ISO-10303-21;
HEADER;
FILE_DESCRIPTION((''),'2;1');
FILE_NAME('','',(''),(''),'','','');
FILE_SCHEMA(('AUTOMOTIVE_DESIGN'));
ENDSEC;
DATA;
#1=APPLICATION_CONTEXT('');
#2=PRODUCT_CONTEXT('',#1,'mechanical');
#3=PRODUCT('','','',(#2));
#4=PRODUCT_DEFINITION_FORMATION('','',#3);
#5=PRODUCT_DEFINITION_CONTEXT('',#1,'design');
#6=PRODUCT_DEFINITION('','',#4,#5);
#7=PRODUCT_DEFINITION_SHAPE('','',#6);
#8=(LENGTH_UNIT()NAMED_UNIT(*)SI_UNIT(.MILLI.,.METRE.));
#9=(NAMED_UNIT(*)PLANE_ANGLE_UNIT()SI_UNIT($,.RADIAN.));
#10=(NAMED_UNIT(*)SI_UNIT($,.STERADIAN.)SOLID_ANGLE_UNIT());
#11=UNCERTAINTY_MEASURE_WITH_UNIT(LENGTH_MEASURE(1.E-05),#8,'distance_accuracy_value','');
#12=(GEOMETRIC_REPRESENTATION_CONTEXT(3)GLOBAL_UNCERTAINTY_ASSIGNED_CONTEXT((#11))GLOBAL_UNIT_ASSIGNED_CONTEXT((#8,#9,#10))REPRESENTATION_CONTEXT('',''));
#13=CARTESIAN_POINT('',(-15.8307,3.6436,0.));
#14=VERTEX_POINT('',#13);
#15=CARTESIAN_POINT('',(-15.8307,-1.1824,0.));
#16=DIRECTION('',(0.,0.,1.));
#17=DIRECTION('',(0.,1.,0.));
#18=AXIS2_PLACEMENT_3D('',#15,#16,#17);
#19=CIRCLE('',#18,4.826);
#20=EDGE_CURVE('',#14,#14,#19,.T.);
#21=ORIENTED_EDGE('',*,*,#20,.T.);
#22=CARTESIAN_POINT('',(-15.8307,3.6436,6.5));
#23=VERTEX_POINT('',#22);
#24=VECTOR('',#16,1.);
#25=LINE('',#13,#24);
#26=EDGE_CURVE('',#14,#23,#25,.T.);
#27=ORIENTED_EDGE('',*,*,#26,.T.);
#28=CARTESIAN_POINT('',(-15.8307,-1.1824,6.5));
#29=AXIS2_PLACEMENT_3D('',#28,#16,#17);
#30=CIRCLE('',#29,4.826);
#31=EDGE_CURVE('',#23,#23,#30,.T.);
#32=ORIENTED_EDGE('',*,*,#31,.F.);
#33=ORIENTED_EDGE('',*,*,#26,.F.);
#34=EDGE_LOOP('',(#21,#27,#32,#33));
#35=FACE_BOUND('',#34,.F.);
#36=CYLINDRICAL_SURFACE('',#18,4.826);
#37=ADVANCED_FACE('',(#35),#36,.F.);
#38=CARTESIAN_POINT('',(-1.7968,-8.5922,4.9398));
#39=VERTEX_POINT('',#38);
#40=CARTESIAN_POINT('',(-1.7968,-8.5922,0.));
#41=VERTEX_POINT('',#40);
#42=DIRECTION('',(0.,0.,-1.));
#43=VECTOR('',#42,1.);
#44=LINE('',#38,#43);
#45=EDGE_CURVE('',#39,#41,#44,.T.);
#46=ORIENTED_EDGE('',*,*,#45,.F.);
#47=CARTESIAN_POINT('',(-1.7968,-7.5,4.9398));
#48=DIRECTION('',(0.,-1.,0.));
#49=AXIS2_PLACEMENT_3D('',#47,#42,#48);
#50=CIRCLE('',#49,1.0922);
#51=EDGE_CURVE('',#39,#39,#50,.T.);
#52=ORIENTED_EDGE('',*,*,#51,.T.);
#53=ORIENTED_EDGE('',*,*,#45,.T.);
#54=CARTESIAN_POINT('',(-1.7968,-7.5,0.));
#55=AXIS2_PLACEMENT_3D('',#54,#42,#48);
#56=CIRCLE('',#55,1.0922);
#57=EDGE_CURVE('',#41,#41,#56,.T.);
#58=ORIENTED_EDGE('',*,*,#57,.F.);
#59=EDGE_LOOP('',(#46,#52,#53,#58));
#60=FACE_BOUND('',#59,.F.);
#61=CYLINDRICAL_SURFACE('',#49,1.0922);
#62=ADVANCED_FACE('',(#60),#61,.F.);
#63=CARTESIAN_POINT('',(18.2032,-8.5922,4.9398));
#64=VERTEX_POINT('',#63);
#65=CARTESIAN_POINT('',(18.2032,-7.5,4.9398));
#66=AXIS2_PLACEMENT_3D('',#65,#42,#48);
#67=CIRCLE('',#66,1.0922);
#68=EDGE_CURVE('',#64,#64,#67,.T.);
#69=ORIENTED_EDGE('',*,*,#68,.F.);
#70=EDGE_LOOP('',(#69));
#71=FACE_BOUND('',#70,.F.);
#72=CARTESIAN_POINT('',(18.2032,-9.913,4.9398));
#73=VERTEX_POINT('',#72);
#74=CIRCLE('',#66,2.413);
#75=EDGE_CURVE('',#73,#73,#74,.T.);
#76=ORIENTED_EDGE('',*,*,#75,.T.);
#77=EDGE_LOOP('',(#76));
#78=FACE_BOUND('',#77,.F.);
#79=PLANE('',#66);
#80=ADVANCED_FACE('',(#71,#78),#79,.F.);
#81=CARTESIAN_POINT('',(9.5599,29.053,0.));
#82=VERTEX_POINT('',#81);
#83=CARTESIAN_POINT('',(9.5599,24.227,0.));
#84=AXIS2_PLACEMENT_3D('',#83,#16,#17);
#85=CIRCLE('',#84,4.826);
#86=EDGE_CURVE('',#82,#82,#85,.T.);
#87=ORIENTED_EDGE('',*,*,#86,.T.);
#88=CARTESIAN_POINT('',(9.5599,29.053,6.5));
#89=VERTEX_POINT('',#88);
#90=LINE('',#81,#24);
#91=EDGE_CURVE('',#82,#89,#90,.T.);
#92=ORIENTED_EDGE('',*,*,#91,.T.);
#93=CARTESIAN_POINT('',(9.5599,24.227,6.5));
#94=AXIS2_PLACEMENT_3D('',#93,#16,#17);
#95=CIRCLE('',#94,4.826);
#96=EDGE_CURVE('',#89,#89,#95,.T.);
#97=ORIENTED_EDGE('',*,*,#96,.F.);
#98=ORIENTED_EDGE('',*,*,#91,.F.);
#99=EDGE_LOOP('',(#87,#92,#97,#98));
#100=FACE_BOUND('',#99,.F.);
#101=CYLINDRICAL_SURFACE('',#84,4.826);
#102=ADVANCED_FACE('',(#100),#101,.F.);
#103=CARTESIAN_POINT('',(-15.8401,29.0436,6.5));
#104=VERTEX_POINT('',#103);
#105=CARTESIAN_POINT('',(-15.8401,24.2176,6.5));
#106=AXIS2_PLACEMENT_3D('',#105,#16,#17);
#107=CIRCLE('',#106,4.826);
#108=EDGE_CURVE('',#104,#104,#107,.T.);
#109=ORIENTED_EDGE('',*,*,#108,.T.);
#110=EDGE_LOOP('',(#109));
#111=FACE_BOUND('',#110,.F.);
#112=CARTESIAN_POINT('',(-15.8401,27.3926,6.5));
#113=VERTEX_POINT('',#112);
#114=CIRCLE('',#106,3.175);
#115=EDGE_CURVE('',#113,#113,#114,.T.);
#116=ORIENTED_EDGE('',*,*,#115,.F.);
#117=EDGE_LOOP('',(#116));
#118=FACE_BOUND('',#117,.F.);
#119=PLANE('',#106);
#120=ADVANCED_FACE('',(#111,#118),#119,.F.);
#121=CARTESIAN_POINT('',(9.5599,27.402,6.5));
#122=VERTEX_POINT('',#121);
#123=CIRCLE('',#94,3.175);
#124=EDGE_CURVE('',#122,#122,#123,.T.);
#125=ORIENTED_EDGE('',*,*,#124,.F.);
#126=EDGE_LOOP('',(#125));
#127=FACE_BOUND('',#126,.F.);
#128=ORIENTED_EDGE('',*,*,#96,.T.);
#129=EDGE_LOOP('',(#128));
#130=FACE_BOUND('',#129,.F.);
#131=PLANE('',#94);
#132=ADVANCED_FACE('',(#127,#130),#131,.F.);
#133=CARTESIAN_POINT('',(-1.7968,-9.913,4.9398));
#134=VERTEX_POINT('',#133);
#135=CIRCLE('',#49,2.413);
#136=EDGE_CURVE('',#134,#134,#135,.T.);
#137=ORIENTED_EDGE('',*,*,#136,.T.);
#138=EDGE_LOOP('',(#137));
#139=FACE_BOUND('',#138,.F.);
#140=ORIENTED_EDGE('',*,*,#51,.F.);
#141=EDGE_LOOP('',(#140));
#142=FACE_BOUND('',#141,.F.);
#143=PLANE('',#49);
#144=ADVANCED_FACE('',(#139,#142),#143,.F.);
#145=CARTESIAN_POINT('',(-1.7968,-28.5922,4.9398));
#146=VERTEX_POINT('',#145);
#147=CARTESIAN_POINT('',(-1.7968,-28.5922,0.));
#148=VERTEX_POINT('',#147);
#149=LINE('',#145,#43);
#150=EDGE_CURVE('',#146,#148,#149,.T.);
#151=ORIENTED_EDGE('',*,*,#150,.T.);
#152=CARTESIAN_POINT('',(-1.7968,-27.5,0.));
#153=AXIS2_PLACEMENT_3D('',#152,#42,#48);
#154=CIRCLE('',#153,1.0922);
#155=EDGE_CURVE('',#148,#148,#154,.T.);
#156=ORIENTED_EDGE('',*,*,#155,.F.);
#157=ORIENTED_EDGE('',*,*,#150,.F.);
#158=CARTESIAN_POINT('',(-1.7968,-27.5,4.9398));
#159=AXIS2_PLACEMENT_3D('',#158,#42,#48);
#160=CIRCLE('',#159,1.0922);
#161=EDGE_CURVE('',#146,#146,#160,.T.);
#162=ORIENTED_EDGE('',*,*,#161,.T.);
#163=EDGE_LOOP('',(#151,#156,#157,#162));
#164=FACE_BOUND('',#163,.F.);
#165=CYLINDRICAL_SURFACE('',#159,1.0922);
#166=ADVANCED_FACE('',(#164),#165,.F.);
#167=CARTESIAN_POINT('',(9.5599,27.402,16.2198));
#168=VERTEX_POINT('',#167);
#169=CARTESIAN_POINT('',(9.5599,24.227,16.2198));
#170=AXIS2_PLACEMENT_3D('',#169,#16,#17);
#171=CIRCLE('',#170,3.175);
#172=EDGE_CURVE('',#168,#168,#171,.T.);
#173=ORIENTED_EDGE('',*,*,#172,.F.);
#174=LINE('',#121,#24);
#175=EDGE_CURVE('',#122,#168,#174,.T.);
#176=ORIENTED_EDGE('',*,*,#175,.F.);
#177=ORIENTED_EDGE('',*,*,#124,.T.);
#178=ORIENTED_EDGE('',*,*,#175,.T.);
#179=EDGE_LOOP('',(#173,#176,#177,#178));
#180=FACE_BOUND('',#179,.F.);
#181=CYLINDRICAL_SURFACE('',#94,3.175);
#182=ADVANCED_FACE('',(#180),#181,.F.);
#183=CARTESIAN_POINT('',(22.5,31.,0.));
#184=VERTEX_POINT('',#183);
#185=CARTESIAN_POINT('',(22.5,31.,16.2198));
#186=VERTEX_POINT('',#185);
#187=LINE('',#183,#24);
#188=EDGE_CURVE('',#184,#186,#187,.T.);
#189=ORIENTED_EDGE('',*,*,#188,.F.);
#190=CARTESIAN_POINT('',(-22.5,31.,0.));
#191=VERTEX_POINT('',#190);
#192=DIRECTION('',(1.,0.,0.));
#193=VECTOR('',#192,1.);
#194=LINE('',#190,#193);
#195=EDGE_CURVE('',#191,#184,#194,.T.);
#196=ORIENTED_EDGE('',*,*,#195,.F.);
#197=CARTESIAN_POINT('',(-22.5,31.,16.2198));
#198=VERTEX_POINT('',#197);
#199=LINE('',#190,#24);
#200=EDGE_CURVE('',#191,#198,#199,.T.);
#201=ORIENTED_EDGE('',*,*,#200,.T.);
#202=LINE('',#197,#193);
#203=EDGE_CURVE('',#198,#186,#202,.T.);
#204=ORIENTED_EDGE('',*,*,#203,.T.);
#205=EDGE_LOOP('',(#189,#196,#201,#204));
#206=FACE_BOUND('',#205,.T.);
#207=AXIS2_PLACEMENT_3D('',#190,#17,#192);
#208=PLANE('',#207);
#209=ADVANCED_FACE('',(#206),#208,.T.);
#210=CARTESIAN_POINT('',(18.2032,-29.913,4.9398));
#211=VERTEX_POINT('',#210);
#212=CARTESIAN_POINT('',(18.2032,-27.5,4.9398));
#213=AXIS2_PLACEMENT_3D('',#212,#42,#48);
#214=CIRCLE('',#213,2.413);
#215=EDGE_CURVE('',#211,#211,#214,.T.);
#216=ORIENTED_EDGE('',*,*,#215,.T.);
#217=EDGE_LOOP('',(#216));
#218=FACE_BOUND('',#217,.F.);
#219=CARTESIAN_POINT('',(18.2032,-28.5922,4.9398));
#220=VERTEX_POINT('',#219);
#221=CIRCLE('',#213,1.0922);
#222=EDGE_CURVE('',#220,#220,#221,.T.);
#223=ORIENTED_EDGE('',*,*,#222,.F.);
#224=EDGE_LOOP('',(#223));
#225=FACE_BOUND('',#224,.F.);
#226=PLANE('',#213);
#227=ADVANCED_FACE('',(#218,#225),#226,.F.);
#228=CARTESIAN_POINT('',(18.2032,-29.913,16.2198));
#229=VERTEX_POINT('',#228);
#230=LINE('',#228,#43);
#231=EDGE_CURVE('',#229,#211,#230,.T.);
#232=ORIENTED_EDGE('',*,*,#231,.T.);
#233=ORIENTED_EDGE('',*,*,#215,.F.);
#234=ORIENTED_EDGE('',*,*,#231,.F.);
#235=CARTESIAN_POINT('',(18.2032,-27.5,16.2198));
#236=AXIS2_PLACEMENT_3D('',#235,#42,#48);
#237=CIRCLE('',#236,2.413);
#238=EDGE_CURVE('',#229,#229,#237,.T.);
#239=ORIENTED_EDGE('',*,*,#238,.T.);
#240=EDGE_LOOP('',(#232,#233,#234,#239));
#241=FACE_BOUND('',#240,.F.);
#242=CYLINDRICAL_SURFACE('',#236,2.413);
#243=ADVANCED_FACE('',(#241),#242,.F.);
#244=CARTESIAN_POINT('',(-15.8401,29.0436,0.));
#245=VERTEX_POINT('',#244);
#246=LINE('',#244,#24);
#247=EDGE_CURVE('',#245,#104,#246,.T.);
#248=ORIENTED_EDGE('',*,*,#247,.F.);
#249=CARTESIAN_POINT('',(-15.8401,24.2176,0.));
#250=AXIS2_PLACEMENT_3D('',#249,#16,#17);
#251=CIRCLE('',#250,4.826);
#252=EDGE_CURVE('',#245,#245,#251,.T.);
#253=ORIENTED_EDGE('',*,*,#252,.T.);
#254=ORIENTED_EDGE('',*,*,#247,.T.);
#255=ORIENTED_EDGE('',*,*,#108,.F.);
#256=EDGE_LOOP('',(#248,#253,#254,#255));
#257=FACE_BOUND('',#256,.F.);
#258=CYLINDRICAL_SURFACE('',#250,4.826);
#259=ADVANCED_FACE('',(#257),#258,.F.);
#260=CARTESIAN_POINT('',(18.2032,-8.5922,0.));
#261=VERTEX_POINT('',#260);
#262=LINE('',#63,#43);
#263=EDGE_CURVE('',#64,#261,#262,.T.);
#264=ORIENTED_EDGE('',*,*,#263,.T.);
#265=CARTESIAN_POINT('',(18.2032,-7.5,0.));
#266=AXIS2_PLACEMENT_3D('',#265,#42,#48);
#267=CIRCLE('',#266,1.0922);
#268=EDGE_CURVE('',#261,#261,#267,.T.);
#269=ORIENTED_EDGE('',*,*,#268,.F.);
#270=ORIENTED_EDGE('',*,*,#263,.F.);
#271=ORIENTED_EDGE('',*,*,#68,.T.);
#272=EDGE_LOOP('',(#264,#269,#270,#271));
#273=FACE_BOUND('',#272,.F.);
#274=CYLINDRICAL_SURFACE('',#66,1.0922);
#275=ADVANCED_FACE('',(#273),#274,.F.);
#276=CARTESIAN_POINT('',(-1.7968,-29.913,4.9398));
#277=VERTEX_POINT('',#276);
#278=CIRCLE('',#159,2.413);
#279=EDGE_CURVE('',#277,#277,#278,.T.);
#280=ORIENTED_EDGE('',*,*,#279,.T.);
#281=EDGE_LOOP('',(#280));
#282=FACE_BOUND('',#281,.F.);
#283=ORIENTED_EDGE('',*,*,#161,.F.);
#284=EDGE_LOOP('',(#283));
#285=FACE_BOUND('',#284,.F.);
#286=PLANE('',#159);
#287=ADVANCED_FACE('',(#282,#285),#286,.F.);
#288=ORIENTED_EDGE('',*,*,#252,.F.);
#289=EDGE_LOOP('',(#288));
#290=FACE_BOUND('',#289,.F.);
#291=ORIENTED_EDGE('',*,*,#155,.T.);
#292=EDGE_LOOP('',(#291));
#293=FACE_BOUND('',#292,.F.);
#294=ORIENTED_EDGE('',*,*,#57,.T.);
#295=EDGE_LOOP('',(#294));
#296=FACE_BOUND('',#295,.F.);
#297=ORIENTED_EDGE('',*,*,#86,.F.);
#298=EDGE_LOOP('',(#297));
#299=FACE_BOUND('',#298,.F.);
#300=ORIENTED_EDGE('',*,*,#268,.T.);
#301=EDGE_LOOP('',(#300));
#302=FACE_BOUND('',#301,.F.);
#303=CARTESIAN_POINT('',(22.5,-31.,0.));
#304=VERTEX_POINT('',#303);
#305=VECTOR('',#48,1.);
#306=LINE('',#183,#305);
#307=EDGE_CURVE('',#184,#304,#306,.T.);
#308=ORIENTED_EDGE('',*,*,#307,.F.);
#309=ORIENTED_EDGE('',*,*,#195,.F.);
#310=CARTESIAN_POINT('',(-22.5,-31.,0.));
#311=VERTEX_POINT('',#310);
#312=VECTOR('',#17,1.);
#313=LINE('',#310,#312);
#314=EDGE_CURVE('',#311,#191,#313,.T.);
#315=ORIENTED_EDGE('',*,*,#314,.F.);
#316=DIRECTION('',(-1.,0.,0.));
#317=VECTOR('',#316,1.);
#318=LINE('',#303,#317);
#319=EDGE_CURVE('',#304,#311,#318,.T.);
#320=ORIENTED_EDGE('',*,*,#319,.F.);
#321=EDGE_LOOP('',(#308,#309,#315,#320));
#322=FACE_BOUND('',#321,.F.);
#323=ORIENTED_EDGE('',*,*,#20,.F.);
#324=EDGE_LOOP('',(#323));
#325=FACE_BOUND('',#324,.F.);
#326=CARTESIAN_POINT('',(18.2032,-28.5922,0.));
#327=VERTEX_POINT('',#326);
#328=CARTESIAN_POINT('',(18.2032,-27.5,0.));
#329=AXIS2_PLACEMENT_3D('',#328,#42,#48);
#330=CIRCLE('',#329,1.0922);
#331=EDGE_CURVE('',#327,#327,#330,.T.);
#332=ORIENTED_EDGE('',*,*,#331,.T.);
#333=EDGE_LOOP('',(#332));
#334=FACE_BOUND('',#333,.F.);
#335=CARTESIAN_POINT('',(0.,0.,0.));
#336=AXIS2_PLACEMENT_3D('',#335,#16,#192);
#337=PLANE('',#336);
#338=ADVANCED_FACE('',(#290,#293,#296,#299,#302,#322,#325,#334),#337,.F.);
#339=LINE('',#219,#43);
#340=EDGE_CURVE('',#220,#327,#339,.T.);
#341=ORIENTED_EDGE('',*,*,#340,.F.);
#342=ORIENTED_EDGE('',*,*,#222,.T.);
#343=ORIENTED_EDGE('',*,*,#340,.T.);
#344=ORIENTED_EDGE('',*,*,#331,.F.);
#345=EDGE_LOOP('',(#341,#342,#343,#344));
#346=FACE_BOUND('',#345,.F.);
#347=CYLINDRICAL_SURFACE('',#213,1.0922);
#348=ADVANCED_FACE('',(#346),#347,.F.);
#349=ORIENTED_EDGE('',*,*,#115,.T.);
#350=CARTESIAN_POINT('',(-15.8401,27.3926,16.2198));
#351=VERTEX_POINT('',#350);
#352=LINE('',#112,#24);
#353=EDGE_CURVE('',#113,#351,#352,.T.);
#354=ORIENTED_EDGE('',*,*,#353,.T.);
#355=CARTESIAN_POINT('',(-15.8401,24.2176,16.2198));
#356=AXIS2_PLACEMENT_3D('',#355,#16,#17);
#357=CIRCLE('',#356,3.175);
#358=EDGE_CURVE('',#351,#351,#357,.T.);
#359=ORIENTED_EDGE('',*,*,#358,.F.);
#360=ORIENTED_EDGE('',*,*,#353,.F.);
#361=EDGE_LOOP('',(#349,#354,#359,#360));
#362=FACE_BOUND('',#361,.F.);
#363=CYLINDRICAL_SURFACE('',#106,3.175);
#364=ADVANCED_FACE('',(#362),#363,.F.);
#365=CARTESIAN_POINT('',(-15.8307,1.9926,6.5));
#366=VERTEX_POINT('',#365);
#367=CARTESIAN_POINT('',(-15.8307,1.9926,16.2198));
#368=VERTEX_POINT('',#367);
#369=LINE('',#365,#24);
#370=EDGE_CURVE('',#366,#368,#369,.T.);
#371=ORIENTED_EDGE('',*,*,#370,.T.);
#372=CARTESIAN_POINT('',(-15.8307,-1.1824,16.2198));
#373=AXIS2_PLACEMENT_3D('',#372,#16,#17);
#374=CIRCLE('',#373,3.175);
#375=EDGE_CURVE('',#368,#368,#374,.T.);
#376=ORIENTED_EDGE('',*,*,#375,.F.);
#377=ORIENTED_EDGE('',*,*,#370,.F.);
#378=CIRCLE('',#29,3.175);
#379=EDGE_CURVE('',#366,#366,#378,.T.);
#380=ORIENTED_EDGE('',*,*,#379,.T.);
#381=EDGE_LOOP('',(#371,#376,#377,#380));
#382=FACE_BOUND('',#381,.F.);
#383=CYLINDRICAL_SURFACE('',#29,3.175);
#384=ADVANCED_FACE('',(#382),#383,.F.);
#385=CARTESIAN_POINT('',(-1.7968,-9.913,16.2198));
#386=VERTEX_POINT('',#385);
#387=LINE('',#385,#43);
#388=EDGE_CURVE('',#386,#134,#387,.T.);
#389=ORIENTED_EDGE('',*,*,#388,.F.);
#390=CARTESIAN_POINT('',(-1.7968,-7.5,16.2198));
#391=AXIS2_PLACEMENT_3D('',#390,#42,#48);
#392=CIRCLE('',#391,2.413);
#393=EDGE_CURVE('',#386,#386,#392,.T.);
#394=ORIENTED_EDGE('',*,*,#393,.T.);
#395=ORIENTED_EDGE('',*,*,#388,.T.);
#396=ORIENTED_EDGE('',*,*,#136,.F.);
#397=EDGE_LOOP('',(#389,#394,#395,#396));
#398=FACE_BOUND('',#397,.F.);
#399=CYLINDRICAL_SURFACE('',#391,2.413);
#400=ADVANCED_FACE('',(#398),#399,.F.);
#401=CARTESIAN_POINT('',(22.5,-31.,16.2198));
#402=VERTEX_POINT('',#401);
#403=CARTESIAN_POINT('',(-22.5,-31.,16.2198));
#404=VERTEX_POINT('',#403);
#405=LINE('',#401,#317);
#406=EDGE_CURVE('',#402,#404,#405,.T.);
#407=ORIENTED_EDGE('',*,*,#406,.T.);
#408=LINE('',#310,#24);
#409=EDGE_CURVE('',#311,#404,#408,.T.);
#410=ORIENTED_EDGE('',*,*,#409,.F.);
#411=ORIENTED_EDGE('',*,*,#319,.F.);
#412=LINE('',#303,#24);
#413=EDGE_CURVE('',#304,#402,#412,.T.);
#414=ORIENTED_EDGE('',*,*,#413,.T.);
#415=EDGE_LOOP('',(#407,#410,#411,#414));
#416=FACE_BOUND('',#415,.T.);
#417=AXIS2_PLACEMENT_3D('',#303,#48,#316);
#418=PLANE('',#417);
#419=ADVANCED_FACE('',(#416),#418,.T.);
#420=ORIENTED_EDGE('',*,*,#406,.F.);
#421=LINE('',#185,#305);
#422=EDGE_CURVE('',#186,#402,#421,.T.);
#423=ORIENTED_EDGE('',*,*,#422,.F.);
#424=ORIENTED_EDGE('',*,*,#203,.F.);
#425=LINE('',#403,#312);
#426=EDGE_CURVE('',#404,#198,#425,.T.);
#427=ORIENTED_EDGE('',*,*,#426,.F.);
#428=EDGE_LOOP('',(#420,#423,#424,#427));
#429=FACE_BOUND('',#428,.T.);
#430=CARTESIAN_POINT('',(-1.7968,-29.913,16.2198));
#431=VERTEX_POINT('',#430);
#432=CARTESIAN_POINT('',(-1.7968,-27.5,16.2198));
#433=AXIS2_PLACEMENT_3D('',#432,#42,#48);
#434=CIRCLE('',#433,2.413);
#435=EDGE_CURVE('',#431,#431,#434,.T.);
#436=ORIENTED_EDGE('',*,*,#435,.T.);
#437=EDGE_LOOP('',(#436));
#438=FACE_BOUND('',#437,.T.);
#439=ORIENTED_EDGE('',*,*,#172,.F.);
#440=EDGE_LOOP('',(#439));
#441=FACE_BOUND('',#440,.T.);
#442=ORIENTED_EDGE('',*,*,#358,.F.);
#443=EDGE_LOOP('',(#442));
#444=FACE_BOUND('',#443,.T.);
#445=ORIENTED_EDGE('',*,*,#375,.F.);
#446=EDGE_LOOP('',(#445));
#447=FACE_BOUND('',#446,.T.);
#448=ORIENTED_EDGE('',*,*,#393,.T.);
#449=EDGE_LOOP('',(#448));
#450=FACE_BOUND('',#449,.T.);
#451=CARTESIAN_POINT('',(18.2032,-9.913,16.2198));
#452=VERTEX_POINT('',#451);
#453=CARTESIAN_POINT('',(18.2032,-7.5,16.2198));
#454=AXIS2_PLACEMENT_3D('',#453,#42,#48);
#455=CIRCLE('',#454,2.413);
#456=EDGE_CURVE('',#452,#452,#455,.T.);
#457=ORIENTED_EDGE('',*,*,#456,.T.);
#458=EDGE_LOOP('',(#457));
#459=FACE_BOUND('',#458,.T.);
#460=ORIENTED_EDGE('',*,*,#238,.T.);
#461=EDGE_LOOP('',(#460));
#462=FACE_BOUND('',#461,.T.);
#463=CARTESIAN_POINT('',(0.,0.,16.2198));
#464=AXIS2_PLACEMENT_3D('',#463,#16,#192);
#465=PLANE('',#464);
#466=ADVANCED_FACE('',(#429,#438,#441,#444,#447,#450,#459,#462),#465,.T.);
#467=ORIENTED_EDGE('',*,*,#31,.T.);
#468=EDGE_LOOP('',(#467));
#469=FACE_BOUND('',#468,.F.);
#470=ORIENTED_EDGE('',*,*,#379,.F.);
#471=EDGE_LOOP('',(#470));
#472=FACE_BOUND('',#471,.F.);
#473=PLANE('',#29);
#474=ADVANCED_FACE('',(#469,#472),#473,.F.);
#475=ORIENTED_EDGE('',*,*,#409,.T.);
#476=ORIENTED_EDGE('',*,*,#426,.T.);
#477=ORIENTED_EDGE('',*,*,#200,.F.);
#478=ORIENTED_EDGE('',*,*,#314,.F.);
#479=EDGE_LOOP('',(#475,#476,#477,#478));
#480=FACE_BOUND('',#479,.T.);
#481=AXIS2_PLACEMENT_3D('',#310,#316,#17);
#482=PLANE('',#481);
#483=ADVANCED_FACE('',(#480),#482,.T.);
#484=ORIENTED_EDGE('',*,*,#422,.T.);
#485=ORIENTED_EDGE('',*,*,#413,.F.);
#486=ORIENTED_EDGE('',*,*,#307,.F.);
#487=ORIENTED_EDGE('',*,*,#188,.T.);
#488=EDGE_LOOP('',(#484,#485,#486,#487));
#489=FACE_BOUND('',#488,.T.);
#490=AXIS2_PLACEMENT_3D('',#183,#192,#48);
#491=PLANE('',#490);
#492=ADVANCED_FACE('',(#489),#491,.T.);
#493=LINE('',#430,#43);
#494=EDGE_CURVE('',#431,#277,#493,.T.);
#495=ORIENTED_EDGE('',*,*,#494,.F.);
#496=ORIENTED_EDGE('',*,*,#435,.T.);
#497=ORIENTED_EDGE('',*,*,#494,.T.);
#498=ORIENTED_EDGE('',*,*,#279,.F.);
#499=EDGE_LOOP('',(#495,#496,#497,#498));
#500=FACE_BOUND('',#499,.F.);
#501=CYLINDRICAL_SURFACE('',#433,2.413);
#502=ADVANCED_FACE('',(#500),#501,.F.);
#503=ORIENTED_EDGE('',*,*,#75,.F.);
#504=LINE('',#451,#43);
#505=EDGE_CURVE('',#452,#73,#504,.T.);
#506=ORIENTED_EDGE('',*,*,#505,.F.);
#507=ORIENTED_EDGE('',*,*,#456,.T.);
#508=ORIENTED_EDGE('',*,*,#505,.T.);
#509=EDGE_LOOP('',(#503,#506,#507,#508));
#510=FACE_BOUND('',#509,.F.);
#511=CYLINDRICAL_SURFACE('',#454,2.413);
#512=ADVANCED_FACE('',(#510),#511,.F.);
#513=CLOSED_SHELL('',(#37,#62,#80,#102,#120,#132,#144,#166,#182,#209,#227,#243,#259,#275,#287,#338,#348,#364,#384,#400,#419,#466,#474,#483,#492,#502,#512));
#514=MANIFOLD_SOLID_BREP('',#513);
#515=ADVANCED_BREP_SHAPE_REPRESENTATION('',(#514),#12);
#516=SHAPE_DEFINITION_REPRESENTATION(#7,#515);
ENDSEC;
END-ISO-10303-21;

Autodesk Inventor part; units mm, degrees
ref_plane "YZ Plane" through (0, 0, 0) normal (1, 0, 0) x (0, 1, 0)
ref_plane "XZ Plane" through (0, 0, 0) normal (0, 1, 0) x (-1, 0, 0)
ref_plane "XY Plane" through (0, 0, 0) normal (0, 0, 1) x (1, 0, 0)
sketch "Sketch1" plane through (0, 0, 0) normal (0, 0, 1) x (1, 0, 0)
  line L0 (-22.5, 31) -> (22.5, 31)
  line L1 (22.5, 31) -> (22.5, -31)
  line L2 (22.5, -31) -> (-22.5, -31)
  line L3 (-22.5, -31) -> (-22.5, 31)
  point P0 (0, 0)
  dimension "d0" = 45
  dimension "d1" = 62
  dimension "d2" = 31
  dimension "d3" = 22.5
extrude "Extrusion1" add sketch "Sketch1" along normal blind 16.2198
sketch "Sketch2" plane through (0, 0, 0) normal (0, 0, -1) x (-1, 0, 0)
  arc A0 (79.5379, 557.794) -> (67.0425, 570.2987) centre (67.0379, 557.7987) ccw projected
  line L0 (67.0425, 570.2987) -> (-365.1574, 570.4588) projected
  arc A1 (-365.1574, 570.4588) -> (-377.6621, 557.9635) centre (-365.1621, 557.9588) ccw projected
  line L1 (-377.6621, 557.9635) -> (-377.8787, -26.6365) projected
  arc A2 (-377.8787, -26.6365) -> (-365.3834, -39.1411) centre (-365.3787, -26.6411) ccw projected
  line L2 (-365.3834, -39.1411) -> (66.8166, -39.3013) projected
  arc A3 (66.8166, -39.3013) -> (79.3212, -26.8059) centre (66.8212, -26.8013) ccw projected
  line L3 (79.3212, -26.8059) -> (79.5379, 557.794) projected
  circle A4 centre (-339.5621, 557.7494) radius 2.5527 projected
  circle A5 centre (-314.1622, 557.7399) radius 2.5527 projected
  circle A6 centre (-288.7622, 557.7305) radius 2.5527 projected
  circle A7 centre (-263.3622, 557.7211) radius 2.5527 projected
  circle A8 centre (-237.9622, 557.7117) radius 2.5527 projected
  circle A9 centre (-212.5622, 557.7023) radius 2.5527 projected
  circle A10 centre (-187.1622, 557.6929) radius 2.5527 projected
  circle A11 centre (-161.7622, 557.6835) radius 2.5527 projected
  circle A12 centre (-136.3622, 557.674) radius 2.5527 projected
  circle A13 centre (-110.9622, 557.6646) radius 2.5527 projected
  circle A14 centre (-85.5622, 557.6552) radius 2.5527 projected
  circle A15 centre (-60.1622, 557.6458) radius 2.5527 projected
  circle A16 centre (-34.7622, 557.6364) radius 2.5527 projected
  circle A17 centre (-9.3622, 557.627) radius 2.5527 projected
  circle A18 centre (16.0378, 557.6176) radius 2.5527 projected
  circle A19 centre (41.4378, 557.6081) radius 2.5527 projected
  circle A20 centre (66.8378, 557.5987) radius 2.5527 projected
  circle A21 centre (-364.9716, 532.3588) radius 2.5527 projected
  circle A22 centre (-339.5716, 532.3494) radius 2.5527 projected
  circle A23 centre (-314.1716, 532.3399) radius 2.5527 projected
  circle A24 centre (-288.7716, 532.3305) radius 2.5527 projected
  circle A25 centre (-263.3716, 532.3211) radius 2.5527 projected
  circle A26 centre (-237.9716, 532.3117) radius 2.5527 projected
  circle A27 centre (-212.5716, 532.3023) radius 2.5527 projected
  circle A28 centre (-187.1716, 532.2929) radius 2.5527 projected
  circle A29 centre (-161.7716, 532.2835) radius 2.5527 projected
  circle A30 centre (-136.3716, 532.274) radius 2.5527 projected
  circle A31 centre (-110.9716, 532.2646) radius 2.5527 projected
  circle A32 centre (-85.5716, 532.2552) radius 2.5527 projected
  circle A33 centre (-60.1716, 532.2458) radius 2.5527 projected
  circle A34 centre (-34.7716, 532.2364) radius 2.5527 projected
  circle A35 centre (-9.3716, 532.227) radius 2.5527 projected
  circle A36 centre (16.0284, 532.2176) radius 2.5527 projected
  circle A37 centre (41.4284, 532.2081) radius 2.5527 projected
  circle A38 centre (66.8284, 532.1987) radius 2.5527 projected
  circle A39 centre (-364.981, 506.9588) radius 2.5527 projected
  circle A40 centre (-339.581, 506.9494) radius 2.5527 projected
  circle A41 centre (-314.181, 506.9399) radius 2.5527 projected
  circle A42 centre (-288.781, 506.9305) radius 2.5527 projected
  circle A43 centre (-263.381, 506.9211) radius 2.5527 projected
  circle A44 centre (-237.981, 506.9117) radius 2.5527 projected
  circle A45 centre (-212.581, 506.9023) radius 2.5527 projected
  circle A46 centre (-187.181, 506.8929) radius 2.5527 projected
  circle A47 centre (-161.781, 506.8835) radius 2.5527 projected
  circle A48 centre (-136.381, 506.874) radius 2.5527 projected
  circle A49 centre (-110.981, 506.8646) radius 2.5527 projected
  circle A50 centre (-85.581, 506.8552) radius 2.5527 projected
  circle A51 centre (-60.181, 506.8458) radius 2.5527 projected
  circle A52 centre (-34.781, 506.8364) radius 2.5527 projected
  circle A53 centre (-9.381, 506.827) radius 2.5527 projected
  circle A54 centre (16.019, 506.8176) radius 2.5527 projected
  circle A55 centre (41.419, 506.8082) radius 2.5527 projected
  circle A56 centre (66.819, 506.7987) radius 2.5527 projected
  circle A57 centre (-364.9904, 481.5588) radius 2.5527 projected
  circle A58 centre (-339.5904, 481.5494) radius 2.5527 projected
  circle A59 centre (-314.1904, 481.5399) radius 2.5527 projected
  circle A60 centre (-288.7904, 481.5305) radius 2.5527 projected
  circle A61 centre (-263.3904, 481.5211) radius 2.5527 projected
  circle A62 centre (-237.9904, 481.5117) radius 2.5527 projected
  circle A63 centre (-212.5904, 481.5023) radius 2.5527 projected
  circle A64 centre (-187.1904, 481.4929) radius 2.5527 projected
  circle A65 centre (-161.7904, 481.4835) radius 2.5527 projected
  circle A66 centre (-136.3904, 481.474) radius 2.5527 projected
  circle A67 centre (-110.9904, 481.4646) radius 2.5527 projected
  circle A68 centre (-85.5904, 481.4552) radius 2.5527 projected
  circle A69 centre (-60.1904, 481.4458) radius 2.5527 projected
  circle A70 centre (-34.7904, 481.4364) radius 2.5527 projected
  circle A71 centre (-9.3904, 481.427) radius 2.5527 projected
  circle A72 centre (16.0096, 481.4176) radius 2.5527 projected
  circle A73 centre (41.4096, 481.4082) radius 2.5527 projected
  circle A74 centre (66.8096, 481.3987) radius 2.5527 projected
  circle A75 centre (-364.9998, 456.1588) radius 2.5527 projected
  circle A76 centre (-339.5998, 456.1494) radius 2.5527 projected
  circle A77 centre (-314.1998, 456.1399) radius 2.5527 projected
  circle A78 centre (-288.7998, 456.1305) radius 2.5527 projected
  circle A79 centre (-263.3998, 456.1211) radius 2.5527 projected
  circle A80 centre (-237.9998, 456.1117) radius 2.5527 projected
  circle A81 centre (-212.5998, 456.1023) radius 2.5527 projected
  circle A82 centre (-187.1998, 456.0929) radius 2.5527 projected
  circle A83 centre (-161.7998, 456.0835) radius 2.5527 projected
  circle A84 centre (-136.3998, 456.074) radius 2.5527 projected
  circle A85 centre (-110.9998, 456.0646) radius 2.5527 projected
  circle A86 centre (-85.5998, 456.0552) radius 2.5527 projected
  circle A87 centre (-60.1998, 456.0458) radius 2.5527 projected
  circle A88 centre (-34.7998, 456.0364) radius 2.5527 projected
  circle A89 centre (-9.3998, 456.027) radius 2.5527 projected
  circle A90 centre (16.0002, 456.0176) radius 2.5527 projected
  circle A91 centre (41.4002, 456.0082) radius 2.5527 projected
  circle A92 centre (66.8002, 455.9987) radius 2.5527 projected
  circle A93 centre (-365.0092, 430.7588) radius 2.5527 projected
  circle A94 centre (-339.6092, 430.7494) radius 2.5527 projected
  circle A95 centre (-314.2092, 430.7399) radius 2.5527 projected
  circle A96 centre (-288.8092, 430.7305) radius 2.5527 projected
  circle A97 centre (-263.4092, 430.7211) radius 2.5527 projected
  circle A98 centre (-238.0092, 430.7117) radius 2.5527 projected
  circle A99 centre (-212.6092, 430.7023) radius 2.5527 projected
  circle A100 centre (-187.2092, 430.6929) radius 2.5527 projected
  circle A101 centre (-161.8092, 430.6835) radius 2.5527 projected
  circle A102 centre (-136.4092, 430.6741) radius 2.5527 projected
  circle A103 centre (-111.0092, 430.6646) radius 2.5527 projected
  circle A104 centre (-85.6092, 430.6552) radius 2.5527 projected
  circle A105 centre (-60.2092, 430.6458) radius 2.5527 projected
  circle A106 centre (-34.8092, 430.6364) radius 2.5527 projected
  circle A107 centre (-9.4092, 430.627) radius 2.5527 projected
  circle A108 centre (15.9908, 430.6176) radius 2.5527 projected
  circle A109 centre (41.3908, 430.6082) radius 2.5527 projected
  circle A110 centre (66.7908, 430.5987) radius 2.5527 projected
  circle A111 centre (-365.0186, 405.3588) radius 2.5527 projected
  circle A112 centre (-339.6186, 405.3494) radius 2.5527 projected
  circle A113 centre (-314.2186, 405.3399) radius 2.5527 projected
  circle A114 centre (-288.8186, 405.3305) radius 2.5527 projected
  circle A115 centre (-263.4186, 405.3211) radius 2.5527 projected
  circle A116 centre (-238.0186, 405.3117) radius 2.5527 projected
  circle A117 centre (-212.6186, 405.3023) radius 2.5527 projected
  circle A118 centre (-187.2186, 405.2929) radius 2.5527 projected
  circle A119 centre (-161.8186, 405.2835) radius 2.5527 projected
  circle A120 centre (-136.4186, 405.2741) radius 2.5527 projected
  circle A121 centre (-111.0186, 405.2646) radius 2.5527 projected
  circle A122 centre (-85.6186, 405.2552) radius 2.5527 projected
  circle A123 centre (-60.2186, 405.2458) radius 2.5527 projected
  circle A124 centre (-34.8187, 405.2364) radius 2.5527 projected
  circle A125 centre (-9.4187, 405.227) radius 2.5527 projected
  circle A126 centre (15.9813, 405.2176) radius 2.5527 projected
  circle A127 centre (41.3813, 405.2082) radius 2.5527 projected
  circle A128 centre (66.7813, 405.1987) radius 2.5527 projected
  circle A129 centre (-365.028, 379.9588) radius 2.5527 projected
  circle A130 centre (-339.628, 379.9494) radius 2.5527 projected
  circle A131 centre (-314.228, 379.94) radius 2.5527 projected
  circle A132 centre (-288.828, 379.9305) radius 2.5527 projected
  circle A133 centre (-263.428, 379.9211) radius 2.5527 projected
  circle A134 centre (-238.0281, 379.9117) radius 2.5527 projected
  circle A135 centre (-212.6281, 379.9023) radius 2.5527 projected
  circle A136 centre (-187.2281, 379.8929) radius 2.5527 projected
  circle A137 centre (-161.8281, 379.8835) radius 2.5527 projected
  circle A138 centre (-136.4281, 379.8741) radius 2.5527 projected
  circle A139 centre (-111.0281, 379.8646) radius 2.5527 projected
  circle A140 centre (-85.6281, 379.8552) radius 2.5527 projected
  circle A141 centre (-60.2281, 379.8458) radius 2.5527 projected
  circle A142 centre (-34.8281, 379.8364) radius 2.5527 projected
  circle A143 centre (-9.4281, 379.827) radius 2.5527 projected
  circle A144 centre (15.9719, 379.8176) radius 2.5527 projected
  circle A145 centre (41.3719, 379.8082) radius 2.5527 projected
  circle A146 centre (66.7719, 379.7987) radius 2.5527 projected
  circle A147 centre (-365.0375, 354.5588) radius 2.5527 projected
  circle A148 centre (-339.6375, 354.5494) radius 2.5527 projected
  circle A149 centre (-314.2375, 354.54) radius 2.5527 projected
  circle A150 centre (-288.8375, 354.5305) radius 2.5527 projected
  circle A151 centre (-263.4375, 354.5211) radius 2.5527 projected
  circle A152 centre (-238.0375, 354.5117) radius 2.5527 projected
  circle A153 centre (-212.6375, 354.5023) radius 2.5527 projected
  circle A154 centre (-187.2375, 354.4929) radius 2.5527 projected
  circle A155 centre (-161.8375, 354.4835) radius 2.5527 projected
  circle A156 centre (-136.4375, 354.4741) radius 2.5527 projected
  circle A157 centre (-111.0375, 354.4646) radius 2.5527 projected
  circle A158 centre (-85.6375, 354.4552) radius 2.5527 projected
  circle A159 centre (-60.2375, 354.4458) radius 2.5527 projected
  circle A160 centre (-34.8375, 354.4364) radius 2.5527 projected
  circle A161 centre (-9.4375, 354.427) radius 2.5527 projected
  circle A162 centre (15.9625, 354.4176) radius 2.5527 projected
  circle A163 centre (41.3625, 354.4082) radius 2.5527 projected
  circle A164 centre (66.7625, 354.3987) radius 2.5527 projected
  circle A165 centre (-365.0469, 329.1588) radius 2.5527 projected
  circle A166 centre (-339.6469, 329.1494) radius 2.5527 projected
  circle A167 centre (-314.2469, 329.14) radius 2.5527 projected
  circle A168 centre (-288.8469, 329.1305) radius 2.5527 projected
  circle A169 centre (-263.4469, 329.1211) radius 2.5527 projected
  circle A170 centre (-238.0469, 329.1117) radius 2.5527 projected
  circle A171 centre (-212.6469, 329.1023) radius 2.5527 projected
  circle A172 centre (-187.2469, 329.0929) radius 2.5527 projected
  circle A173 centre (-161.8469, 329.0835) radius 2.5527 projected
  circle A174 centre (-136.4469, 329.0741) radius 2.5527 projected
  circle A175 centre (-111.0469, 329.0646) radius 2.5527 projected
  circle A176 centre (-85.6469, 329.0552) radius 2.5527 projected
  circle A177 centre (-60.2469, 329.0458) radius 2.5527 projected
  circle A178 centre (-34.8469, 329.0364) radius 2.5527 projected
  circle A179 centre (-9.4469, 329.027) radius 2.5527 projected
  circle A180 centre (15.9531, 329.0176) radius 2.5527 projected
  circle A181 centre (41.3531, 329.0082) radius 2.5527 projected
  circle A182 centre (66.7531, 328.9987) radius 2.5527 projected
  circle A183 centre (-365.0563, 303.7588) radius 2.5527 projected
  circle A184 centre (-339.6563, 303.7494) radius 2.5527 projected
  circle A185 centre (-314.2563, 303.74) radius 2.5527 projected
  circle A186 centre (-288.8563, 303.7305) radius 2.5527 projected
  circle A187 centre (-263.4563, 303.7211) radius 2.5527 projected
  circle A188 centre (-238.0563, 303.7117) radius 2.5527 projected
  circle A189 centre (-212.6563, 303.7023) radius 2.5527 projected
  circle A190 centre (-187.2563, 303.6929) radius 2.5527 projected
  circle A191 centre (-161.8563, 303.6835) radius 2.5527 projected
  circle A192 centre (-136.4563, 303.6741) radius 2.5527 projected
  circle A193 centre (-111.0563, 303.6646) radius 2.5527 projected
  circle A194 centre (-85.6563, 303.6552) radius 2.5527 projected
  circle A195 centre (-60.2563, 303.6458) radius 2.5527 projected
  circle A196 centre (-34.8563, 303.6364) radius 2.5527 projected
  circle A197 centre (-9.4563, 303.627) radius 2.5527 projected
  circle A198 centre (15.9437, 303.6176) radius 2.5527 projected
  circle A199 centre (41.3437, 303.6082) radius 2.5527 projected
  circle A200 centre (66.7437, 303.5988) radius 2.5527 projected
  circle A201 centre (-365.0657, 278.3588) radius 2.5527 projected
  circle A202 centre (-339.6657, 278.3494) radius 2.5527 projected
  circle A203 centre (-314.2657, 278.34) radius 2.5527 projected
  circle A204 centre (-288.8657, 278.3305) radius 2.5527 projected
  circle A205 centre (-263.4657, 278.3211) radius 2.5527 projected
  circle A206 centre (-238.0657, 278.3117) radius 2.5527 projected
  circle A207 centre (-212.6657, 278.3023) radius 2.5527 projected
  circle A208 centre (-187.2657, 278.2929) radius 2.5527 projected
  circle A209 centre (-161.8657, 278.2835) radius 2.5527 projected
  circle A210 centre (-136.4657, 278.2741) radius 2.5527 projected
  circle A211 centre (-111.0657, 278.2646) radius 2.5527 projected
  circle A212 centre (-85.6657, 278.2552) radius 2.5527 projected
  circle A213 centre (-60.2657, 278.2458) radius 2.5527 projected
  circle A214 centre (-34.8657, 278.2364) radius 2.5527 projected
  circle A215 centre (-9.4657, 278.227) radius 2.5527 projected
  circle A216 centre (15.9343, 278.2176) radius 2.5527 projected
  circle A217 centre (41.3343, 278.2082) radius 2.5527 projected
  circle A218 centre (66.7343, 278.1988) radius 2.5527 projected
  circle A219 centre (-365.0751, 252.9588) radius 2.5527 projected
  circle A220 centre (-339.6751, 252.9494) radius 2.5527 projected
  circle A221 centre (-314.2751, 252.94) radius 2.5527 projected
  circle A222 centre (-288.8751, 252.9305) radius 2.5527 projected
  circle A223 centre (-263.4751, 252.9211) radius 2.5527 projected
  circle A224 centre (-238.0751, 252.9117) radius 2.5527 projected
  circle A225 centre (-212.6751, 252.9023) radius 2.5527 projected
  circle A226 centre (-187.2751, 252.8929) radius 2.5527 projected
  circle A227 centre (-161.8751, 252.8835) radius 2.5527 projected
  circle A228 centre (-136.4751, 252.8741) radius 2.5527 projected
  circle A229 centre (-111.0751, 252.8647) radius 2.5527 projected
  circle A230 centre (-85.6751, 252.8552) radius 2.5527 projected
  circle A231 centre (-60.2751, 252.8458) radius 2.5527 projected
  circle A232 centre (-34.8751, 252.8364) radius 2.5527 projected
  circle A233 centre (-9.4751, 252.827) radius 2.5527 projected
  circle A234 centre (15.9249, 252.8176) radius 2.5527 projected
  circle A235 centre (41.3249, 252.8082) radius 2.5527 projected
  circle A236 centre (66.7249, 252.7988) radius 2.5527 projected
  circle A237 centre (-365.0845, 227.5588) radius 2.5527 projected
  circle A238 centre (-339.6845, 227.5494) radius 2.5527 projected
  circle A239 centre (-314.2845, 227.54) radius 2.5527 projected
  circle A240 centre (-288.8845, 227.5305) radius 2.5527 projected
  circle A241 centre (-263.4845, 227.5211) radius 2.5527 projected
  circle A242 centre (-238.0845, 227.5117) radius 2.5527 projected
  circle A243 centre (-212.6845, 227.5023) radius 2.5527 projected
  circle A244 centre (-187.2845, 227.4929) radius 2.5527 projected
  circle A245 centre (-161.8845, 227.4835) radius 2.5527 projected
  circle A246 centre (-136.4845, 227.4741) radius 2.5527 projected
  circle A247 centre (-111.0845, 227.4647) radius 2.5527 projected
  circle A248 centre (-85.6845, 227.4552) radius 2.5527 projected
  circle A249 centre (-60.2845, 227.4458) radius 2.5527 projected
  circle A250 centre (-34.8845, 227.4364) radius 2.5527 projected
  circle A251 centre (-9.4845, 227.427) radius 2.5527 projected
  circle A252 centre (15.9154, 227.4176) radius 2.5527 projected
  circle A253 centre (41.3154, 227.4082) radius 2.5527 projected
  circle A254 centre (66.7154, 227.3988) radius 2.5527 projected
  circle A255 centre (-365.0939, 202.1588) radius 2.5527 projected
  circle A256 centre (-339.6939, 202.1494) radius 2.5527 projected
  circle A257 centre (-314.2939, 202.14) radius 2.5527 projected
  circle A258 centre (-288.8939, 202.1305) radius 2.5527 projected
  circle A259 centre (-263.4939, 202.1211) radius 2.5527 projected
  circle A260 centre (-238.0939, 202.1117) radius 2.5527 projected
  circle A261 centre (-212.6939, 202.1023) radius 2.5527 projected
  circle A262 centre (-187.294, 202.0929) radius 2.5527 projected
  circle A263 centre (-161.894, 202.0835) radius 2.5527 projected
  circle A264 centre (-136.494, 202.0741) radius 2.5527 projected
  circle A265 centre (-111.094, 202.0647) radius 2.5527 projected
  circle A266 centre (-85.694, 202.0552) radius 2.5527 projected
  circle A267 centre (-60.294, 202.0458) radius 2.5527 projected
  circle A268 centre (-34.894, 202.0364) radius 2.5527 projected
  circle A269 centre (-9.494, 202.027) radius 2.5527 projected
  circle A270 centre (15.906, 202.0176) radius 2.5527 projected
  circle A271 centre (41.306, 202.0082) radius 2.5527 projected
  circle A272 centre (66.706, 201.9988) radius 2.5527 projected
  circle A273 centre (-365.1034, 176.7588) radius 2.5527 projected
  circle A274 centre (-339.7034, 176.7494) radius 2.5527 projected
  circle A275 centre (-314.3034, 176.74) radius 2.5527 projected
  circle A276 centre (-288.9034, 176.7306) radius 2.5527 projected
  circle A277 centre (-263.5034, 176.7211) radius 2.5527 projected
  circle A278 centre (-238.1034, 176.7117) radius 2.5527 projected
  circle A279 centre (-212.7034, 176.7023) radius 2.5527 projected
  circle A280 centre (-187.3034, 176.6929) radius 2.5527 projected
  circle A281 centre (-161.9034, 176.6835) radius 2.5527 projected
  circle A282 centre (-136.5034, 176.6741) radius 2.5527 projected
  circle A283 centre (-111.1034, 176.6647) radius 2.5527 projected
  circle A284 centre (-85.7034, 176.6552) radius 2.5527 projected
  circle A285 centre (-60.3034, 176.6458) radius 2.5527 projected
  circle A286 centre (-34.9034, 176.6364) radius 2.5527 projected
  circle A287 centre (-9.5034, 176.627) radius 2.5527 projected
  circle A288 centre (15.8966, 176.6176) radius 2.5527 projected
  circle A289 centre (41.2966, 176.6082) radius 2.5527 projected
  circle A290 centre (66.6966, 176.5988) radius 2.5527 projected
  circle A291 centre (-365.1128, 151.3588) radius 2.5527 projected
  circle A292 centre (-339.7128, 151.3494) radius 2.5527 projected
  circle A293 centre (-314.3128, 151.34) radius 2.5527 projected
  circle A294 centre (-288.9128, 151.3306) radius 2.5527 projected
  circle A295 centre (-263.5128, 151.3211) radius 2.5527 projected
  circle A296 centre (-238.1128, 151.3117) radius 2.5527 projected
  circle A297 centre (-212.7128, 151.3023) radius 2.5527 projected
  circle A298 centre (-187.3128, 151.2929) radius 2.5527 projected
  circle A299 centre (-161.9128, 151.2835) radius 2.5527 projected
  circle A300 centre (-136.5128, 151.2741) radius 2.5527 projected
  circle A301 centre (-111.1128, 151.2647) radius 2.5527 projected
  circle A302 centre (-85.7128, 151.2552) radius 2.5527 projected
  circle A303 centre (-60.3128, 151.2458) radius 2.5527 projected
  circle A304 centre (-34.9128, 151.2364) radius 2.5527 projected
  circle A305 centre (-9.5128, 151.227) radius 2.5527 projected
  circle A306 centre (15.8872, 151.2176) radius 2.5527 projected
  circle A307 centre (41.2872, 151.2082) radius 2.5527 projected
  circle A308 centre (66.6872, 151.1988) radius 2.5527 projected
  circle A309 centre (-365.1222, 125.9588) radius 2.5527 projected
  circle A310 centre (-339.7222, 125.9494) radius 2.5527 projected
  circle A311 centre (-314.3222, 125.94) radius 2.5527 projected
  circle A312 centre (-288.9222, 125.9306) radius 2.5527 projected
  circle A313 centre (-263.5222, 125.9211) radius 2.5527 projected
  circle A314 centre (-238.1222, 125.9117) radius 2.5527 projected
  circle A315 centre (-212.7222, 125.9023) radius 2.5527 projected
  circle A316 centre (-187.3222, 125.8929) radius 2.5527 projected
  circle A317 centre (-161.9222, 125.8835) radius 2.5527 projected
  circle A318 centre (-136.5222, 125.8741) radius 2.5527 projected
  circle A319 centre (-111.1222, 125.8647) radius 2.5527 projected
  circle A320 centre (-85.7222, 125.8552) radius 2.5527 projected
  circle A321 centre (-60.3222, 125.8458) radius 2.5527 projected
  circle A322 centre (-34.9222, 125.8364) radius 2.5527 projected
  circle A323 centre (-9.5222, 125.827) radius 2.5527 projected
  circle A324 centre (15.8778, 125.8176) radius 2.5527 projected
  circle A325 centre (41.2778, 125.8082) radius 2.5527 projected
  circle A326 centre (66.6778, 125.7988) radius 2.5527 projected
  circle A327 centre (-365.1316, 100.5588) radius 2.5527 projected
  circle A328 centre (-339.7316, 100.5494) radius 2.5527 projected
  circle A329 centre (-314.3316, 100.54) radius 2.5527 projected
  circle A330 centre (-288.9316, 100.5306) radius 2.5527 projected
  circle A331 centre (-263.5316, 100.5211) radius 2.5527 projected
  circle A332 centre (-238.1316, 100.5117) radius 2.5527 projected
  circle A333 centre (-212.7316, 100.5023) radius 2.5527 projected
  circle A334 centre (-187.3316, 100.4929) radius 2.5527 projected
  circle A335 centre (-161.9316, 100.4835) radius 2.5527 projected
  circle A336 centre (-136.5316, 100.4741) radius 2.5527 projected
  circle A337 centre (-111.1316, 100.4647) radius 2.5527 projected
  circle A338 centre (-85.7316, 100.4552) radius 2.5527 projected
  circle A339 centre (-60.3316, 100.4458) radius 2.5527 projected
  circle A340 centre (-34.9316, 100.4364) radius 2.5527 projected
  circle A341 centre (-9.5316, 100.427) radius 2.5527 projected
  circle A342 centre (15.8684, 100.4176) radius 2.5527 projected
  circle A343 centre (41.2684, 100.4082) radius 2.5527 projected
  circle A344 centre (66.6684, 100.3988) radius 2.5527 projected
  circle A345 centre (-365.141, 75.1588) radius 2.5527 projected
  circle A346 centre (-339.741, 75.1494) radius 2.5527 projected
  circle A347 centre (-314.341, 75.14) radius 2.5527 projected
  circle A348 centre (-288.941, 75.1306) radius 2.5527 projected
  circle A349 centre (-263.541, 75.1211) radius 2.5527 projected
  circle A350 centre (-238.141, 75.1117) radius 2.5527 projected
  circle A351 centre (-212.741, 75.1023) radius 2.5527 projected
  circle A352 centre (-187.341, 75.0929) radius 2.5527 projected
  circle A353 centre (-161.941, 75.0835) radius 2.5527 projected
  circle A354 centre (-136.541, 75.0741) radius 2.5527 projected
  circle A355 centre (-111.141, 75.0647) radius 2.5527 projected
  circle A356 centre (-85.741, 75.0552) radius 2.5527 projected
  circle A357 centre (-60.341, 75.0458) radius 2.5527 projected
  circle A358 centre (-34.941, 75.0364) radius 2.5527 projected
  circle A359 centre (-9.541, 75.027) radius 2.5527 projected
  circle A360 centre (15.859, 75.0176) radius 2.5527 projected
  circle A361 centre (41.259, 75.0082) radius 2.5527 projected
  circle A362 centre (66.659, 74.9988) radius 2.5527 projected
  circle A363 centre (-365.1504, 49.7588) radius 2.5527 projected
  circle A364 centre (-339.7504, 49.7494) radius 2.5527 projected
  circle A365 centre (-314.3504, 49.74) radius 2.5527 projected
  circle A366 centre (-288.9504, 49.7306) radius 2.5527 projected
  circle A367 centre (-263.5504, 49.7211) radius 2.5527 projected
  circle A368 centre (-238.1504, 49.7117) radius 2.5527 projected
  circle A369 centre (-212.7504, 49.7023) radius 2.5527 projected
  circle A370 centre (-187.3504, 49.6929) radius 2.5527 projected
  circle A371 centre (-161.9504, 49.6835) radius 2.5527 projected
  circle A372 centre (-136.5504, 49.6741) radius 2.5527 projected
  circle A373 centre (-111.1504, 49.6647) radius 2.5527 projected
  circle A374 centre (-85.7504, 49.6553) radius 2.5527 projected
  circle A375 centre (-60.3504, 49.6458) radius 2.5527 projected
  circle A376 centre (-34.9504, 49.6364) radius 2.5527 projected
  circle A377 centre (-9.5504, 49.627) radius 2.5527 projected
  circle A378 centre (15.8496, 49.6176) radius 2.5527 projected
  circle A379 centre (41.2496, 49.6082) radius 2.5527 projected
  circle A380 centre (66.6496, 49.5988) radius 2.5527 projected
  circle A381 centre (-365.1598, 24.3588) radius 2.5527 projected
  circle A382 centre (-339.7598, 24.3494) radius 2.5527 projected
  circle A383 centre (-314.3598, 24.34) radius 2.5527 projected
  circle A384 centre (-288.9598, 24.3306) radius 2.5527 projected
  circle A385 centre (-263.5598, 24.3211) radius 2.5527 projected
  circle A386 centre (-238.1598, 24.3117) radius 2.5527 projected
  circle A387 centre (-212.7598, 24.3023) radius 2.5527 projected
  circle A388 centre (-187.3598, 24.2929) radius 2.5527 projected
  circle A389 centre (-161.9598, 24.2835) radius 2.5527 projected
  circle A390 centre (-136.5598, 24.2741) radius 2.5527 projected
  circle A391 centre (-111.1599, 24.2647) radius 2.5527 projected
  circle A392 centre (-85.7599, 24.2553) radius 2.5527 projected
  circle A393 centre (-60.3599, 24.2458) radius 2.5527 projected
  circle A394 centre (-34.9599, 24.2364) radius 2.5527 projected
  circle A395 centre (-9.5599, 24.227) radius 2.5527 projected
  circle A396 centre (15.8401, 24.2176) radius 2.5527 projected
  circle A397 centre (41.2401, 24.2082) radius 2.5527 projected
  circle A398 centre (66.6401, 24.1988) radius 2.5527 projected
  circle A399 centre (-365.1692, -1.0412) radius 2.5527 projected
  circle A400 centre (-339.7692, -1.0506) radius 2.5527 projected
  circle A401 centre (-314.3693, -1.06) radius 2.5527 projected
  circle A402 centre (-288.9693, -1.0694) radius 2.5527 projected
  circle A403 centre (-263.5693, -1.0789) radius 2.5527 projected
  circle A404 centre (-238.1693, -1.0883) radius 2.5527 projected
  circle A405 centre (-212.7693, -1.0977) radius 2.5527 projected
  circle A406 centre (-187.3693, -1.1071) radius 2.5527 projected
  circle A407 centre (-161.9693, -1.1165) radius 2.5527 projected
  circle A408 centre (-136.5693, -1.1259) radius 2.5527 projected
  circle A409 centre (-111.1693, -1.1353) radius 2.5527 projected
  circle A410 centre (-85.7693, -1.1447) radius 2.5527 projected
  circle A411 centre (-60.3693, -1.1542) radius 2.5527 projected
  circle A412 centre (-34.9693, -1.1636) radius 2.5527 projected
  circle A413 centre (-9.5693, -1.173) radius 2.5527 projected
  circle A414 centre (15.8307, -1.1824) radius 2.5527 projected
  circle A415 centre (41.2307, -1.1918) radius 2.5527 projected
  circle A416 centre (66.6307, -1.2012) radius 2.5527 projected
  circle A417 centre (-365.1787, -26.4412) radius 2.5527 projected
  circle A418 centre (-339.7787, -26.4506) radius 2.5527 projected
  circle A419 centre (-314.3787, -26.46) radius 2.5527 projected
  circle A420 centre (-288.9787, -26.4694) radius 2.5527 projected
  circle A421 centre (-263.5787, -26.4788) radius 2.5527 projected
  circle A422 centre (-238.1787, -26.4883) radius 2.5527 projected
  circle A423 centre (-212.7787, -26.4977) radius 2.5527 projected
  circle A424 centre (-187.3787, -26.5071) radius 2.5527 projected
  circle A425 centre (-161.9787, -26.5165) radius 2.5527 projected
  circle A426 centre (-136.5787, -26.5259) radius 2.5527 projected
  circle A427 centre (-111.1787, -26.5353) radius 2.5527 projected
  circle A428 centre (-85.7787, -26.5447) radius 2.5527 projected
  circle A429 centre (-60.3787, -26.5542) radius 2.5527 projected
  circle A430 centre (-34.9787, -26.5636) radius 2.5527 projected
  circle A431 centre (-9.5787, -26.573) radius 2.5527 projected
  circle A432 centre (15.8213, -26.5824) radius 2.5527 projected
  circle A433 centre (41.2213, -26.5918) radius 2.5527 projected
  circle A434 centre (66.6213, -26.6012) radius 2.5527 projected
  circle A435 centre (-364.9621, 557.7588) radius 2.5527 projected
  point P0 (0, 0)
hole "Hole1" at (9.5599, 24.227, 0) at (-15.8401, 24.2176, 0) at (-15.8307, -1.1824, 0) direction (0, 0, 1) diameter 6.35 end through all counterbore diameter 9.652 counterbore depth 6.5
sketch "Sketch3" plane through (0, 0, 16.2198) normal (0, 0, 1) x (1, 0, 0)
  circle A0 centre (18.2032, -27.5) radius 0.889 projected
  circle A1 centre (-1.7968, -27.5) radius 1.0922 projected
  line L0 (20.7032, -5.508) -> (20.7032, -5) projected
  line L1 (20.7032, -5) -> (-4.2967, -5.0001) projected
  line L2 (-4.2967, -5.0001) -> (-4.2967, -30) projected
  line L3 (-4.2967, -30) -> (20.7032, -30) projected
  line L4 (20.7032, -30) -> (20.7032, -29.492) projected
  line L5 (20.7032, -29.492) -> (21.008, -29.492) projected
  line L6 (21.008, -5.508) -> (21.008, -29.492) projected
  line L7 (20.7032, -5.508) -> (21.008, -5.508) projected
  circle A2 centre (18.2032, -7.5) radius 0.889 projected
  circle A3 centre (-1.7968, -7.5) radius 0.889 projected
  circle A4 centre (18.2032, -27.5) radius 0.889 projected
  circle A5 centre (-1.7968, -27.5) radius 0.889 projected
  circle A6 centre (14.5532, -11.15) radius 1.7272 projected
  circle A7 centre (1.8532, -11.15) radius 1.7272 projected
  circle A8 centre (14.5532, -23.85) radius 1.7272 projected
  circle A9 centre (1.8532, -23.85) radius 1.7272 projected
  circle A10 centre (8.2032, -17.5) radius 1.7272 projected
  point P0 (0, 0)
hole "Hole2" at (18.2032, -7.5, 16.2198) at (-1.7968, -7.5, 16.2198) at (-1.7968, -27.5, 16.2198) at (18.2032, -27.5, 16.2198) direction (0, 0, -1) diameter 2.1844 end through all counterbore diameter 4.826 counterbore depth 11.28
properties part number "baseplate for combined beam steering mirror"
